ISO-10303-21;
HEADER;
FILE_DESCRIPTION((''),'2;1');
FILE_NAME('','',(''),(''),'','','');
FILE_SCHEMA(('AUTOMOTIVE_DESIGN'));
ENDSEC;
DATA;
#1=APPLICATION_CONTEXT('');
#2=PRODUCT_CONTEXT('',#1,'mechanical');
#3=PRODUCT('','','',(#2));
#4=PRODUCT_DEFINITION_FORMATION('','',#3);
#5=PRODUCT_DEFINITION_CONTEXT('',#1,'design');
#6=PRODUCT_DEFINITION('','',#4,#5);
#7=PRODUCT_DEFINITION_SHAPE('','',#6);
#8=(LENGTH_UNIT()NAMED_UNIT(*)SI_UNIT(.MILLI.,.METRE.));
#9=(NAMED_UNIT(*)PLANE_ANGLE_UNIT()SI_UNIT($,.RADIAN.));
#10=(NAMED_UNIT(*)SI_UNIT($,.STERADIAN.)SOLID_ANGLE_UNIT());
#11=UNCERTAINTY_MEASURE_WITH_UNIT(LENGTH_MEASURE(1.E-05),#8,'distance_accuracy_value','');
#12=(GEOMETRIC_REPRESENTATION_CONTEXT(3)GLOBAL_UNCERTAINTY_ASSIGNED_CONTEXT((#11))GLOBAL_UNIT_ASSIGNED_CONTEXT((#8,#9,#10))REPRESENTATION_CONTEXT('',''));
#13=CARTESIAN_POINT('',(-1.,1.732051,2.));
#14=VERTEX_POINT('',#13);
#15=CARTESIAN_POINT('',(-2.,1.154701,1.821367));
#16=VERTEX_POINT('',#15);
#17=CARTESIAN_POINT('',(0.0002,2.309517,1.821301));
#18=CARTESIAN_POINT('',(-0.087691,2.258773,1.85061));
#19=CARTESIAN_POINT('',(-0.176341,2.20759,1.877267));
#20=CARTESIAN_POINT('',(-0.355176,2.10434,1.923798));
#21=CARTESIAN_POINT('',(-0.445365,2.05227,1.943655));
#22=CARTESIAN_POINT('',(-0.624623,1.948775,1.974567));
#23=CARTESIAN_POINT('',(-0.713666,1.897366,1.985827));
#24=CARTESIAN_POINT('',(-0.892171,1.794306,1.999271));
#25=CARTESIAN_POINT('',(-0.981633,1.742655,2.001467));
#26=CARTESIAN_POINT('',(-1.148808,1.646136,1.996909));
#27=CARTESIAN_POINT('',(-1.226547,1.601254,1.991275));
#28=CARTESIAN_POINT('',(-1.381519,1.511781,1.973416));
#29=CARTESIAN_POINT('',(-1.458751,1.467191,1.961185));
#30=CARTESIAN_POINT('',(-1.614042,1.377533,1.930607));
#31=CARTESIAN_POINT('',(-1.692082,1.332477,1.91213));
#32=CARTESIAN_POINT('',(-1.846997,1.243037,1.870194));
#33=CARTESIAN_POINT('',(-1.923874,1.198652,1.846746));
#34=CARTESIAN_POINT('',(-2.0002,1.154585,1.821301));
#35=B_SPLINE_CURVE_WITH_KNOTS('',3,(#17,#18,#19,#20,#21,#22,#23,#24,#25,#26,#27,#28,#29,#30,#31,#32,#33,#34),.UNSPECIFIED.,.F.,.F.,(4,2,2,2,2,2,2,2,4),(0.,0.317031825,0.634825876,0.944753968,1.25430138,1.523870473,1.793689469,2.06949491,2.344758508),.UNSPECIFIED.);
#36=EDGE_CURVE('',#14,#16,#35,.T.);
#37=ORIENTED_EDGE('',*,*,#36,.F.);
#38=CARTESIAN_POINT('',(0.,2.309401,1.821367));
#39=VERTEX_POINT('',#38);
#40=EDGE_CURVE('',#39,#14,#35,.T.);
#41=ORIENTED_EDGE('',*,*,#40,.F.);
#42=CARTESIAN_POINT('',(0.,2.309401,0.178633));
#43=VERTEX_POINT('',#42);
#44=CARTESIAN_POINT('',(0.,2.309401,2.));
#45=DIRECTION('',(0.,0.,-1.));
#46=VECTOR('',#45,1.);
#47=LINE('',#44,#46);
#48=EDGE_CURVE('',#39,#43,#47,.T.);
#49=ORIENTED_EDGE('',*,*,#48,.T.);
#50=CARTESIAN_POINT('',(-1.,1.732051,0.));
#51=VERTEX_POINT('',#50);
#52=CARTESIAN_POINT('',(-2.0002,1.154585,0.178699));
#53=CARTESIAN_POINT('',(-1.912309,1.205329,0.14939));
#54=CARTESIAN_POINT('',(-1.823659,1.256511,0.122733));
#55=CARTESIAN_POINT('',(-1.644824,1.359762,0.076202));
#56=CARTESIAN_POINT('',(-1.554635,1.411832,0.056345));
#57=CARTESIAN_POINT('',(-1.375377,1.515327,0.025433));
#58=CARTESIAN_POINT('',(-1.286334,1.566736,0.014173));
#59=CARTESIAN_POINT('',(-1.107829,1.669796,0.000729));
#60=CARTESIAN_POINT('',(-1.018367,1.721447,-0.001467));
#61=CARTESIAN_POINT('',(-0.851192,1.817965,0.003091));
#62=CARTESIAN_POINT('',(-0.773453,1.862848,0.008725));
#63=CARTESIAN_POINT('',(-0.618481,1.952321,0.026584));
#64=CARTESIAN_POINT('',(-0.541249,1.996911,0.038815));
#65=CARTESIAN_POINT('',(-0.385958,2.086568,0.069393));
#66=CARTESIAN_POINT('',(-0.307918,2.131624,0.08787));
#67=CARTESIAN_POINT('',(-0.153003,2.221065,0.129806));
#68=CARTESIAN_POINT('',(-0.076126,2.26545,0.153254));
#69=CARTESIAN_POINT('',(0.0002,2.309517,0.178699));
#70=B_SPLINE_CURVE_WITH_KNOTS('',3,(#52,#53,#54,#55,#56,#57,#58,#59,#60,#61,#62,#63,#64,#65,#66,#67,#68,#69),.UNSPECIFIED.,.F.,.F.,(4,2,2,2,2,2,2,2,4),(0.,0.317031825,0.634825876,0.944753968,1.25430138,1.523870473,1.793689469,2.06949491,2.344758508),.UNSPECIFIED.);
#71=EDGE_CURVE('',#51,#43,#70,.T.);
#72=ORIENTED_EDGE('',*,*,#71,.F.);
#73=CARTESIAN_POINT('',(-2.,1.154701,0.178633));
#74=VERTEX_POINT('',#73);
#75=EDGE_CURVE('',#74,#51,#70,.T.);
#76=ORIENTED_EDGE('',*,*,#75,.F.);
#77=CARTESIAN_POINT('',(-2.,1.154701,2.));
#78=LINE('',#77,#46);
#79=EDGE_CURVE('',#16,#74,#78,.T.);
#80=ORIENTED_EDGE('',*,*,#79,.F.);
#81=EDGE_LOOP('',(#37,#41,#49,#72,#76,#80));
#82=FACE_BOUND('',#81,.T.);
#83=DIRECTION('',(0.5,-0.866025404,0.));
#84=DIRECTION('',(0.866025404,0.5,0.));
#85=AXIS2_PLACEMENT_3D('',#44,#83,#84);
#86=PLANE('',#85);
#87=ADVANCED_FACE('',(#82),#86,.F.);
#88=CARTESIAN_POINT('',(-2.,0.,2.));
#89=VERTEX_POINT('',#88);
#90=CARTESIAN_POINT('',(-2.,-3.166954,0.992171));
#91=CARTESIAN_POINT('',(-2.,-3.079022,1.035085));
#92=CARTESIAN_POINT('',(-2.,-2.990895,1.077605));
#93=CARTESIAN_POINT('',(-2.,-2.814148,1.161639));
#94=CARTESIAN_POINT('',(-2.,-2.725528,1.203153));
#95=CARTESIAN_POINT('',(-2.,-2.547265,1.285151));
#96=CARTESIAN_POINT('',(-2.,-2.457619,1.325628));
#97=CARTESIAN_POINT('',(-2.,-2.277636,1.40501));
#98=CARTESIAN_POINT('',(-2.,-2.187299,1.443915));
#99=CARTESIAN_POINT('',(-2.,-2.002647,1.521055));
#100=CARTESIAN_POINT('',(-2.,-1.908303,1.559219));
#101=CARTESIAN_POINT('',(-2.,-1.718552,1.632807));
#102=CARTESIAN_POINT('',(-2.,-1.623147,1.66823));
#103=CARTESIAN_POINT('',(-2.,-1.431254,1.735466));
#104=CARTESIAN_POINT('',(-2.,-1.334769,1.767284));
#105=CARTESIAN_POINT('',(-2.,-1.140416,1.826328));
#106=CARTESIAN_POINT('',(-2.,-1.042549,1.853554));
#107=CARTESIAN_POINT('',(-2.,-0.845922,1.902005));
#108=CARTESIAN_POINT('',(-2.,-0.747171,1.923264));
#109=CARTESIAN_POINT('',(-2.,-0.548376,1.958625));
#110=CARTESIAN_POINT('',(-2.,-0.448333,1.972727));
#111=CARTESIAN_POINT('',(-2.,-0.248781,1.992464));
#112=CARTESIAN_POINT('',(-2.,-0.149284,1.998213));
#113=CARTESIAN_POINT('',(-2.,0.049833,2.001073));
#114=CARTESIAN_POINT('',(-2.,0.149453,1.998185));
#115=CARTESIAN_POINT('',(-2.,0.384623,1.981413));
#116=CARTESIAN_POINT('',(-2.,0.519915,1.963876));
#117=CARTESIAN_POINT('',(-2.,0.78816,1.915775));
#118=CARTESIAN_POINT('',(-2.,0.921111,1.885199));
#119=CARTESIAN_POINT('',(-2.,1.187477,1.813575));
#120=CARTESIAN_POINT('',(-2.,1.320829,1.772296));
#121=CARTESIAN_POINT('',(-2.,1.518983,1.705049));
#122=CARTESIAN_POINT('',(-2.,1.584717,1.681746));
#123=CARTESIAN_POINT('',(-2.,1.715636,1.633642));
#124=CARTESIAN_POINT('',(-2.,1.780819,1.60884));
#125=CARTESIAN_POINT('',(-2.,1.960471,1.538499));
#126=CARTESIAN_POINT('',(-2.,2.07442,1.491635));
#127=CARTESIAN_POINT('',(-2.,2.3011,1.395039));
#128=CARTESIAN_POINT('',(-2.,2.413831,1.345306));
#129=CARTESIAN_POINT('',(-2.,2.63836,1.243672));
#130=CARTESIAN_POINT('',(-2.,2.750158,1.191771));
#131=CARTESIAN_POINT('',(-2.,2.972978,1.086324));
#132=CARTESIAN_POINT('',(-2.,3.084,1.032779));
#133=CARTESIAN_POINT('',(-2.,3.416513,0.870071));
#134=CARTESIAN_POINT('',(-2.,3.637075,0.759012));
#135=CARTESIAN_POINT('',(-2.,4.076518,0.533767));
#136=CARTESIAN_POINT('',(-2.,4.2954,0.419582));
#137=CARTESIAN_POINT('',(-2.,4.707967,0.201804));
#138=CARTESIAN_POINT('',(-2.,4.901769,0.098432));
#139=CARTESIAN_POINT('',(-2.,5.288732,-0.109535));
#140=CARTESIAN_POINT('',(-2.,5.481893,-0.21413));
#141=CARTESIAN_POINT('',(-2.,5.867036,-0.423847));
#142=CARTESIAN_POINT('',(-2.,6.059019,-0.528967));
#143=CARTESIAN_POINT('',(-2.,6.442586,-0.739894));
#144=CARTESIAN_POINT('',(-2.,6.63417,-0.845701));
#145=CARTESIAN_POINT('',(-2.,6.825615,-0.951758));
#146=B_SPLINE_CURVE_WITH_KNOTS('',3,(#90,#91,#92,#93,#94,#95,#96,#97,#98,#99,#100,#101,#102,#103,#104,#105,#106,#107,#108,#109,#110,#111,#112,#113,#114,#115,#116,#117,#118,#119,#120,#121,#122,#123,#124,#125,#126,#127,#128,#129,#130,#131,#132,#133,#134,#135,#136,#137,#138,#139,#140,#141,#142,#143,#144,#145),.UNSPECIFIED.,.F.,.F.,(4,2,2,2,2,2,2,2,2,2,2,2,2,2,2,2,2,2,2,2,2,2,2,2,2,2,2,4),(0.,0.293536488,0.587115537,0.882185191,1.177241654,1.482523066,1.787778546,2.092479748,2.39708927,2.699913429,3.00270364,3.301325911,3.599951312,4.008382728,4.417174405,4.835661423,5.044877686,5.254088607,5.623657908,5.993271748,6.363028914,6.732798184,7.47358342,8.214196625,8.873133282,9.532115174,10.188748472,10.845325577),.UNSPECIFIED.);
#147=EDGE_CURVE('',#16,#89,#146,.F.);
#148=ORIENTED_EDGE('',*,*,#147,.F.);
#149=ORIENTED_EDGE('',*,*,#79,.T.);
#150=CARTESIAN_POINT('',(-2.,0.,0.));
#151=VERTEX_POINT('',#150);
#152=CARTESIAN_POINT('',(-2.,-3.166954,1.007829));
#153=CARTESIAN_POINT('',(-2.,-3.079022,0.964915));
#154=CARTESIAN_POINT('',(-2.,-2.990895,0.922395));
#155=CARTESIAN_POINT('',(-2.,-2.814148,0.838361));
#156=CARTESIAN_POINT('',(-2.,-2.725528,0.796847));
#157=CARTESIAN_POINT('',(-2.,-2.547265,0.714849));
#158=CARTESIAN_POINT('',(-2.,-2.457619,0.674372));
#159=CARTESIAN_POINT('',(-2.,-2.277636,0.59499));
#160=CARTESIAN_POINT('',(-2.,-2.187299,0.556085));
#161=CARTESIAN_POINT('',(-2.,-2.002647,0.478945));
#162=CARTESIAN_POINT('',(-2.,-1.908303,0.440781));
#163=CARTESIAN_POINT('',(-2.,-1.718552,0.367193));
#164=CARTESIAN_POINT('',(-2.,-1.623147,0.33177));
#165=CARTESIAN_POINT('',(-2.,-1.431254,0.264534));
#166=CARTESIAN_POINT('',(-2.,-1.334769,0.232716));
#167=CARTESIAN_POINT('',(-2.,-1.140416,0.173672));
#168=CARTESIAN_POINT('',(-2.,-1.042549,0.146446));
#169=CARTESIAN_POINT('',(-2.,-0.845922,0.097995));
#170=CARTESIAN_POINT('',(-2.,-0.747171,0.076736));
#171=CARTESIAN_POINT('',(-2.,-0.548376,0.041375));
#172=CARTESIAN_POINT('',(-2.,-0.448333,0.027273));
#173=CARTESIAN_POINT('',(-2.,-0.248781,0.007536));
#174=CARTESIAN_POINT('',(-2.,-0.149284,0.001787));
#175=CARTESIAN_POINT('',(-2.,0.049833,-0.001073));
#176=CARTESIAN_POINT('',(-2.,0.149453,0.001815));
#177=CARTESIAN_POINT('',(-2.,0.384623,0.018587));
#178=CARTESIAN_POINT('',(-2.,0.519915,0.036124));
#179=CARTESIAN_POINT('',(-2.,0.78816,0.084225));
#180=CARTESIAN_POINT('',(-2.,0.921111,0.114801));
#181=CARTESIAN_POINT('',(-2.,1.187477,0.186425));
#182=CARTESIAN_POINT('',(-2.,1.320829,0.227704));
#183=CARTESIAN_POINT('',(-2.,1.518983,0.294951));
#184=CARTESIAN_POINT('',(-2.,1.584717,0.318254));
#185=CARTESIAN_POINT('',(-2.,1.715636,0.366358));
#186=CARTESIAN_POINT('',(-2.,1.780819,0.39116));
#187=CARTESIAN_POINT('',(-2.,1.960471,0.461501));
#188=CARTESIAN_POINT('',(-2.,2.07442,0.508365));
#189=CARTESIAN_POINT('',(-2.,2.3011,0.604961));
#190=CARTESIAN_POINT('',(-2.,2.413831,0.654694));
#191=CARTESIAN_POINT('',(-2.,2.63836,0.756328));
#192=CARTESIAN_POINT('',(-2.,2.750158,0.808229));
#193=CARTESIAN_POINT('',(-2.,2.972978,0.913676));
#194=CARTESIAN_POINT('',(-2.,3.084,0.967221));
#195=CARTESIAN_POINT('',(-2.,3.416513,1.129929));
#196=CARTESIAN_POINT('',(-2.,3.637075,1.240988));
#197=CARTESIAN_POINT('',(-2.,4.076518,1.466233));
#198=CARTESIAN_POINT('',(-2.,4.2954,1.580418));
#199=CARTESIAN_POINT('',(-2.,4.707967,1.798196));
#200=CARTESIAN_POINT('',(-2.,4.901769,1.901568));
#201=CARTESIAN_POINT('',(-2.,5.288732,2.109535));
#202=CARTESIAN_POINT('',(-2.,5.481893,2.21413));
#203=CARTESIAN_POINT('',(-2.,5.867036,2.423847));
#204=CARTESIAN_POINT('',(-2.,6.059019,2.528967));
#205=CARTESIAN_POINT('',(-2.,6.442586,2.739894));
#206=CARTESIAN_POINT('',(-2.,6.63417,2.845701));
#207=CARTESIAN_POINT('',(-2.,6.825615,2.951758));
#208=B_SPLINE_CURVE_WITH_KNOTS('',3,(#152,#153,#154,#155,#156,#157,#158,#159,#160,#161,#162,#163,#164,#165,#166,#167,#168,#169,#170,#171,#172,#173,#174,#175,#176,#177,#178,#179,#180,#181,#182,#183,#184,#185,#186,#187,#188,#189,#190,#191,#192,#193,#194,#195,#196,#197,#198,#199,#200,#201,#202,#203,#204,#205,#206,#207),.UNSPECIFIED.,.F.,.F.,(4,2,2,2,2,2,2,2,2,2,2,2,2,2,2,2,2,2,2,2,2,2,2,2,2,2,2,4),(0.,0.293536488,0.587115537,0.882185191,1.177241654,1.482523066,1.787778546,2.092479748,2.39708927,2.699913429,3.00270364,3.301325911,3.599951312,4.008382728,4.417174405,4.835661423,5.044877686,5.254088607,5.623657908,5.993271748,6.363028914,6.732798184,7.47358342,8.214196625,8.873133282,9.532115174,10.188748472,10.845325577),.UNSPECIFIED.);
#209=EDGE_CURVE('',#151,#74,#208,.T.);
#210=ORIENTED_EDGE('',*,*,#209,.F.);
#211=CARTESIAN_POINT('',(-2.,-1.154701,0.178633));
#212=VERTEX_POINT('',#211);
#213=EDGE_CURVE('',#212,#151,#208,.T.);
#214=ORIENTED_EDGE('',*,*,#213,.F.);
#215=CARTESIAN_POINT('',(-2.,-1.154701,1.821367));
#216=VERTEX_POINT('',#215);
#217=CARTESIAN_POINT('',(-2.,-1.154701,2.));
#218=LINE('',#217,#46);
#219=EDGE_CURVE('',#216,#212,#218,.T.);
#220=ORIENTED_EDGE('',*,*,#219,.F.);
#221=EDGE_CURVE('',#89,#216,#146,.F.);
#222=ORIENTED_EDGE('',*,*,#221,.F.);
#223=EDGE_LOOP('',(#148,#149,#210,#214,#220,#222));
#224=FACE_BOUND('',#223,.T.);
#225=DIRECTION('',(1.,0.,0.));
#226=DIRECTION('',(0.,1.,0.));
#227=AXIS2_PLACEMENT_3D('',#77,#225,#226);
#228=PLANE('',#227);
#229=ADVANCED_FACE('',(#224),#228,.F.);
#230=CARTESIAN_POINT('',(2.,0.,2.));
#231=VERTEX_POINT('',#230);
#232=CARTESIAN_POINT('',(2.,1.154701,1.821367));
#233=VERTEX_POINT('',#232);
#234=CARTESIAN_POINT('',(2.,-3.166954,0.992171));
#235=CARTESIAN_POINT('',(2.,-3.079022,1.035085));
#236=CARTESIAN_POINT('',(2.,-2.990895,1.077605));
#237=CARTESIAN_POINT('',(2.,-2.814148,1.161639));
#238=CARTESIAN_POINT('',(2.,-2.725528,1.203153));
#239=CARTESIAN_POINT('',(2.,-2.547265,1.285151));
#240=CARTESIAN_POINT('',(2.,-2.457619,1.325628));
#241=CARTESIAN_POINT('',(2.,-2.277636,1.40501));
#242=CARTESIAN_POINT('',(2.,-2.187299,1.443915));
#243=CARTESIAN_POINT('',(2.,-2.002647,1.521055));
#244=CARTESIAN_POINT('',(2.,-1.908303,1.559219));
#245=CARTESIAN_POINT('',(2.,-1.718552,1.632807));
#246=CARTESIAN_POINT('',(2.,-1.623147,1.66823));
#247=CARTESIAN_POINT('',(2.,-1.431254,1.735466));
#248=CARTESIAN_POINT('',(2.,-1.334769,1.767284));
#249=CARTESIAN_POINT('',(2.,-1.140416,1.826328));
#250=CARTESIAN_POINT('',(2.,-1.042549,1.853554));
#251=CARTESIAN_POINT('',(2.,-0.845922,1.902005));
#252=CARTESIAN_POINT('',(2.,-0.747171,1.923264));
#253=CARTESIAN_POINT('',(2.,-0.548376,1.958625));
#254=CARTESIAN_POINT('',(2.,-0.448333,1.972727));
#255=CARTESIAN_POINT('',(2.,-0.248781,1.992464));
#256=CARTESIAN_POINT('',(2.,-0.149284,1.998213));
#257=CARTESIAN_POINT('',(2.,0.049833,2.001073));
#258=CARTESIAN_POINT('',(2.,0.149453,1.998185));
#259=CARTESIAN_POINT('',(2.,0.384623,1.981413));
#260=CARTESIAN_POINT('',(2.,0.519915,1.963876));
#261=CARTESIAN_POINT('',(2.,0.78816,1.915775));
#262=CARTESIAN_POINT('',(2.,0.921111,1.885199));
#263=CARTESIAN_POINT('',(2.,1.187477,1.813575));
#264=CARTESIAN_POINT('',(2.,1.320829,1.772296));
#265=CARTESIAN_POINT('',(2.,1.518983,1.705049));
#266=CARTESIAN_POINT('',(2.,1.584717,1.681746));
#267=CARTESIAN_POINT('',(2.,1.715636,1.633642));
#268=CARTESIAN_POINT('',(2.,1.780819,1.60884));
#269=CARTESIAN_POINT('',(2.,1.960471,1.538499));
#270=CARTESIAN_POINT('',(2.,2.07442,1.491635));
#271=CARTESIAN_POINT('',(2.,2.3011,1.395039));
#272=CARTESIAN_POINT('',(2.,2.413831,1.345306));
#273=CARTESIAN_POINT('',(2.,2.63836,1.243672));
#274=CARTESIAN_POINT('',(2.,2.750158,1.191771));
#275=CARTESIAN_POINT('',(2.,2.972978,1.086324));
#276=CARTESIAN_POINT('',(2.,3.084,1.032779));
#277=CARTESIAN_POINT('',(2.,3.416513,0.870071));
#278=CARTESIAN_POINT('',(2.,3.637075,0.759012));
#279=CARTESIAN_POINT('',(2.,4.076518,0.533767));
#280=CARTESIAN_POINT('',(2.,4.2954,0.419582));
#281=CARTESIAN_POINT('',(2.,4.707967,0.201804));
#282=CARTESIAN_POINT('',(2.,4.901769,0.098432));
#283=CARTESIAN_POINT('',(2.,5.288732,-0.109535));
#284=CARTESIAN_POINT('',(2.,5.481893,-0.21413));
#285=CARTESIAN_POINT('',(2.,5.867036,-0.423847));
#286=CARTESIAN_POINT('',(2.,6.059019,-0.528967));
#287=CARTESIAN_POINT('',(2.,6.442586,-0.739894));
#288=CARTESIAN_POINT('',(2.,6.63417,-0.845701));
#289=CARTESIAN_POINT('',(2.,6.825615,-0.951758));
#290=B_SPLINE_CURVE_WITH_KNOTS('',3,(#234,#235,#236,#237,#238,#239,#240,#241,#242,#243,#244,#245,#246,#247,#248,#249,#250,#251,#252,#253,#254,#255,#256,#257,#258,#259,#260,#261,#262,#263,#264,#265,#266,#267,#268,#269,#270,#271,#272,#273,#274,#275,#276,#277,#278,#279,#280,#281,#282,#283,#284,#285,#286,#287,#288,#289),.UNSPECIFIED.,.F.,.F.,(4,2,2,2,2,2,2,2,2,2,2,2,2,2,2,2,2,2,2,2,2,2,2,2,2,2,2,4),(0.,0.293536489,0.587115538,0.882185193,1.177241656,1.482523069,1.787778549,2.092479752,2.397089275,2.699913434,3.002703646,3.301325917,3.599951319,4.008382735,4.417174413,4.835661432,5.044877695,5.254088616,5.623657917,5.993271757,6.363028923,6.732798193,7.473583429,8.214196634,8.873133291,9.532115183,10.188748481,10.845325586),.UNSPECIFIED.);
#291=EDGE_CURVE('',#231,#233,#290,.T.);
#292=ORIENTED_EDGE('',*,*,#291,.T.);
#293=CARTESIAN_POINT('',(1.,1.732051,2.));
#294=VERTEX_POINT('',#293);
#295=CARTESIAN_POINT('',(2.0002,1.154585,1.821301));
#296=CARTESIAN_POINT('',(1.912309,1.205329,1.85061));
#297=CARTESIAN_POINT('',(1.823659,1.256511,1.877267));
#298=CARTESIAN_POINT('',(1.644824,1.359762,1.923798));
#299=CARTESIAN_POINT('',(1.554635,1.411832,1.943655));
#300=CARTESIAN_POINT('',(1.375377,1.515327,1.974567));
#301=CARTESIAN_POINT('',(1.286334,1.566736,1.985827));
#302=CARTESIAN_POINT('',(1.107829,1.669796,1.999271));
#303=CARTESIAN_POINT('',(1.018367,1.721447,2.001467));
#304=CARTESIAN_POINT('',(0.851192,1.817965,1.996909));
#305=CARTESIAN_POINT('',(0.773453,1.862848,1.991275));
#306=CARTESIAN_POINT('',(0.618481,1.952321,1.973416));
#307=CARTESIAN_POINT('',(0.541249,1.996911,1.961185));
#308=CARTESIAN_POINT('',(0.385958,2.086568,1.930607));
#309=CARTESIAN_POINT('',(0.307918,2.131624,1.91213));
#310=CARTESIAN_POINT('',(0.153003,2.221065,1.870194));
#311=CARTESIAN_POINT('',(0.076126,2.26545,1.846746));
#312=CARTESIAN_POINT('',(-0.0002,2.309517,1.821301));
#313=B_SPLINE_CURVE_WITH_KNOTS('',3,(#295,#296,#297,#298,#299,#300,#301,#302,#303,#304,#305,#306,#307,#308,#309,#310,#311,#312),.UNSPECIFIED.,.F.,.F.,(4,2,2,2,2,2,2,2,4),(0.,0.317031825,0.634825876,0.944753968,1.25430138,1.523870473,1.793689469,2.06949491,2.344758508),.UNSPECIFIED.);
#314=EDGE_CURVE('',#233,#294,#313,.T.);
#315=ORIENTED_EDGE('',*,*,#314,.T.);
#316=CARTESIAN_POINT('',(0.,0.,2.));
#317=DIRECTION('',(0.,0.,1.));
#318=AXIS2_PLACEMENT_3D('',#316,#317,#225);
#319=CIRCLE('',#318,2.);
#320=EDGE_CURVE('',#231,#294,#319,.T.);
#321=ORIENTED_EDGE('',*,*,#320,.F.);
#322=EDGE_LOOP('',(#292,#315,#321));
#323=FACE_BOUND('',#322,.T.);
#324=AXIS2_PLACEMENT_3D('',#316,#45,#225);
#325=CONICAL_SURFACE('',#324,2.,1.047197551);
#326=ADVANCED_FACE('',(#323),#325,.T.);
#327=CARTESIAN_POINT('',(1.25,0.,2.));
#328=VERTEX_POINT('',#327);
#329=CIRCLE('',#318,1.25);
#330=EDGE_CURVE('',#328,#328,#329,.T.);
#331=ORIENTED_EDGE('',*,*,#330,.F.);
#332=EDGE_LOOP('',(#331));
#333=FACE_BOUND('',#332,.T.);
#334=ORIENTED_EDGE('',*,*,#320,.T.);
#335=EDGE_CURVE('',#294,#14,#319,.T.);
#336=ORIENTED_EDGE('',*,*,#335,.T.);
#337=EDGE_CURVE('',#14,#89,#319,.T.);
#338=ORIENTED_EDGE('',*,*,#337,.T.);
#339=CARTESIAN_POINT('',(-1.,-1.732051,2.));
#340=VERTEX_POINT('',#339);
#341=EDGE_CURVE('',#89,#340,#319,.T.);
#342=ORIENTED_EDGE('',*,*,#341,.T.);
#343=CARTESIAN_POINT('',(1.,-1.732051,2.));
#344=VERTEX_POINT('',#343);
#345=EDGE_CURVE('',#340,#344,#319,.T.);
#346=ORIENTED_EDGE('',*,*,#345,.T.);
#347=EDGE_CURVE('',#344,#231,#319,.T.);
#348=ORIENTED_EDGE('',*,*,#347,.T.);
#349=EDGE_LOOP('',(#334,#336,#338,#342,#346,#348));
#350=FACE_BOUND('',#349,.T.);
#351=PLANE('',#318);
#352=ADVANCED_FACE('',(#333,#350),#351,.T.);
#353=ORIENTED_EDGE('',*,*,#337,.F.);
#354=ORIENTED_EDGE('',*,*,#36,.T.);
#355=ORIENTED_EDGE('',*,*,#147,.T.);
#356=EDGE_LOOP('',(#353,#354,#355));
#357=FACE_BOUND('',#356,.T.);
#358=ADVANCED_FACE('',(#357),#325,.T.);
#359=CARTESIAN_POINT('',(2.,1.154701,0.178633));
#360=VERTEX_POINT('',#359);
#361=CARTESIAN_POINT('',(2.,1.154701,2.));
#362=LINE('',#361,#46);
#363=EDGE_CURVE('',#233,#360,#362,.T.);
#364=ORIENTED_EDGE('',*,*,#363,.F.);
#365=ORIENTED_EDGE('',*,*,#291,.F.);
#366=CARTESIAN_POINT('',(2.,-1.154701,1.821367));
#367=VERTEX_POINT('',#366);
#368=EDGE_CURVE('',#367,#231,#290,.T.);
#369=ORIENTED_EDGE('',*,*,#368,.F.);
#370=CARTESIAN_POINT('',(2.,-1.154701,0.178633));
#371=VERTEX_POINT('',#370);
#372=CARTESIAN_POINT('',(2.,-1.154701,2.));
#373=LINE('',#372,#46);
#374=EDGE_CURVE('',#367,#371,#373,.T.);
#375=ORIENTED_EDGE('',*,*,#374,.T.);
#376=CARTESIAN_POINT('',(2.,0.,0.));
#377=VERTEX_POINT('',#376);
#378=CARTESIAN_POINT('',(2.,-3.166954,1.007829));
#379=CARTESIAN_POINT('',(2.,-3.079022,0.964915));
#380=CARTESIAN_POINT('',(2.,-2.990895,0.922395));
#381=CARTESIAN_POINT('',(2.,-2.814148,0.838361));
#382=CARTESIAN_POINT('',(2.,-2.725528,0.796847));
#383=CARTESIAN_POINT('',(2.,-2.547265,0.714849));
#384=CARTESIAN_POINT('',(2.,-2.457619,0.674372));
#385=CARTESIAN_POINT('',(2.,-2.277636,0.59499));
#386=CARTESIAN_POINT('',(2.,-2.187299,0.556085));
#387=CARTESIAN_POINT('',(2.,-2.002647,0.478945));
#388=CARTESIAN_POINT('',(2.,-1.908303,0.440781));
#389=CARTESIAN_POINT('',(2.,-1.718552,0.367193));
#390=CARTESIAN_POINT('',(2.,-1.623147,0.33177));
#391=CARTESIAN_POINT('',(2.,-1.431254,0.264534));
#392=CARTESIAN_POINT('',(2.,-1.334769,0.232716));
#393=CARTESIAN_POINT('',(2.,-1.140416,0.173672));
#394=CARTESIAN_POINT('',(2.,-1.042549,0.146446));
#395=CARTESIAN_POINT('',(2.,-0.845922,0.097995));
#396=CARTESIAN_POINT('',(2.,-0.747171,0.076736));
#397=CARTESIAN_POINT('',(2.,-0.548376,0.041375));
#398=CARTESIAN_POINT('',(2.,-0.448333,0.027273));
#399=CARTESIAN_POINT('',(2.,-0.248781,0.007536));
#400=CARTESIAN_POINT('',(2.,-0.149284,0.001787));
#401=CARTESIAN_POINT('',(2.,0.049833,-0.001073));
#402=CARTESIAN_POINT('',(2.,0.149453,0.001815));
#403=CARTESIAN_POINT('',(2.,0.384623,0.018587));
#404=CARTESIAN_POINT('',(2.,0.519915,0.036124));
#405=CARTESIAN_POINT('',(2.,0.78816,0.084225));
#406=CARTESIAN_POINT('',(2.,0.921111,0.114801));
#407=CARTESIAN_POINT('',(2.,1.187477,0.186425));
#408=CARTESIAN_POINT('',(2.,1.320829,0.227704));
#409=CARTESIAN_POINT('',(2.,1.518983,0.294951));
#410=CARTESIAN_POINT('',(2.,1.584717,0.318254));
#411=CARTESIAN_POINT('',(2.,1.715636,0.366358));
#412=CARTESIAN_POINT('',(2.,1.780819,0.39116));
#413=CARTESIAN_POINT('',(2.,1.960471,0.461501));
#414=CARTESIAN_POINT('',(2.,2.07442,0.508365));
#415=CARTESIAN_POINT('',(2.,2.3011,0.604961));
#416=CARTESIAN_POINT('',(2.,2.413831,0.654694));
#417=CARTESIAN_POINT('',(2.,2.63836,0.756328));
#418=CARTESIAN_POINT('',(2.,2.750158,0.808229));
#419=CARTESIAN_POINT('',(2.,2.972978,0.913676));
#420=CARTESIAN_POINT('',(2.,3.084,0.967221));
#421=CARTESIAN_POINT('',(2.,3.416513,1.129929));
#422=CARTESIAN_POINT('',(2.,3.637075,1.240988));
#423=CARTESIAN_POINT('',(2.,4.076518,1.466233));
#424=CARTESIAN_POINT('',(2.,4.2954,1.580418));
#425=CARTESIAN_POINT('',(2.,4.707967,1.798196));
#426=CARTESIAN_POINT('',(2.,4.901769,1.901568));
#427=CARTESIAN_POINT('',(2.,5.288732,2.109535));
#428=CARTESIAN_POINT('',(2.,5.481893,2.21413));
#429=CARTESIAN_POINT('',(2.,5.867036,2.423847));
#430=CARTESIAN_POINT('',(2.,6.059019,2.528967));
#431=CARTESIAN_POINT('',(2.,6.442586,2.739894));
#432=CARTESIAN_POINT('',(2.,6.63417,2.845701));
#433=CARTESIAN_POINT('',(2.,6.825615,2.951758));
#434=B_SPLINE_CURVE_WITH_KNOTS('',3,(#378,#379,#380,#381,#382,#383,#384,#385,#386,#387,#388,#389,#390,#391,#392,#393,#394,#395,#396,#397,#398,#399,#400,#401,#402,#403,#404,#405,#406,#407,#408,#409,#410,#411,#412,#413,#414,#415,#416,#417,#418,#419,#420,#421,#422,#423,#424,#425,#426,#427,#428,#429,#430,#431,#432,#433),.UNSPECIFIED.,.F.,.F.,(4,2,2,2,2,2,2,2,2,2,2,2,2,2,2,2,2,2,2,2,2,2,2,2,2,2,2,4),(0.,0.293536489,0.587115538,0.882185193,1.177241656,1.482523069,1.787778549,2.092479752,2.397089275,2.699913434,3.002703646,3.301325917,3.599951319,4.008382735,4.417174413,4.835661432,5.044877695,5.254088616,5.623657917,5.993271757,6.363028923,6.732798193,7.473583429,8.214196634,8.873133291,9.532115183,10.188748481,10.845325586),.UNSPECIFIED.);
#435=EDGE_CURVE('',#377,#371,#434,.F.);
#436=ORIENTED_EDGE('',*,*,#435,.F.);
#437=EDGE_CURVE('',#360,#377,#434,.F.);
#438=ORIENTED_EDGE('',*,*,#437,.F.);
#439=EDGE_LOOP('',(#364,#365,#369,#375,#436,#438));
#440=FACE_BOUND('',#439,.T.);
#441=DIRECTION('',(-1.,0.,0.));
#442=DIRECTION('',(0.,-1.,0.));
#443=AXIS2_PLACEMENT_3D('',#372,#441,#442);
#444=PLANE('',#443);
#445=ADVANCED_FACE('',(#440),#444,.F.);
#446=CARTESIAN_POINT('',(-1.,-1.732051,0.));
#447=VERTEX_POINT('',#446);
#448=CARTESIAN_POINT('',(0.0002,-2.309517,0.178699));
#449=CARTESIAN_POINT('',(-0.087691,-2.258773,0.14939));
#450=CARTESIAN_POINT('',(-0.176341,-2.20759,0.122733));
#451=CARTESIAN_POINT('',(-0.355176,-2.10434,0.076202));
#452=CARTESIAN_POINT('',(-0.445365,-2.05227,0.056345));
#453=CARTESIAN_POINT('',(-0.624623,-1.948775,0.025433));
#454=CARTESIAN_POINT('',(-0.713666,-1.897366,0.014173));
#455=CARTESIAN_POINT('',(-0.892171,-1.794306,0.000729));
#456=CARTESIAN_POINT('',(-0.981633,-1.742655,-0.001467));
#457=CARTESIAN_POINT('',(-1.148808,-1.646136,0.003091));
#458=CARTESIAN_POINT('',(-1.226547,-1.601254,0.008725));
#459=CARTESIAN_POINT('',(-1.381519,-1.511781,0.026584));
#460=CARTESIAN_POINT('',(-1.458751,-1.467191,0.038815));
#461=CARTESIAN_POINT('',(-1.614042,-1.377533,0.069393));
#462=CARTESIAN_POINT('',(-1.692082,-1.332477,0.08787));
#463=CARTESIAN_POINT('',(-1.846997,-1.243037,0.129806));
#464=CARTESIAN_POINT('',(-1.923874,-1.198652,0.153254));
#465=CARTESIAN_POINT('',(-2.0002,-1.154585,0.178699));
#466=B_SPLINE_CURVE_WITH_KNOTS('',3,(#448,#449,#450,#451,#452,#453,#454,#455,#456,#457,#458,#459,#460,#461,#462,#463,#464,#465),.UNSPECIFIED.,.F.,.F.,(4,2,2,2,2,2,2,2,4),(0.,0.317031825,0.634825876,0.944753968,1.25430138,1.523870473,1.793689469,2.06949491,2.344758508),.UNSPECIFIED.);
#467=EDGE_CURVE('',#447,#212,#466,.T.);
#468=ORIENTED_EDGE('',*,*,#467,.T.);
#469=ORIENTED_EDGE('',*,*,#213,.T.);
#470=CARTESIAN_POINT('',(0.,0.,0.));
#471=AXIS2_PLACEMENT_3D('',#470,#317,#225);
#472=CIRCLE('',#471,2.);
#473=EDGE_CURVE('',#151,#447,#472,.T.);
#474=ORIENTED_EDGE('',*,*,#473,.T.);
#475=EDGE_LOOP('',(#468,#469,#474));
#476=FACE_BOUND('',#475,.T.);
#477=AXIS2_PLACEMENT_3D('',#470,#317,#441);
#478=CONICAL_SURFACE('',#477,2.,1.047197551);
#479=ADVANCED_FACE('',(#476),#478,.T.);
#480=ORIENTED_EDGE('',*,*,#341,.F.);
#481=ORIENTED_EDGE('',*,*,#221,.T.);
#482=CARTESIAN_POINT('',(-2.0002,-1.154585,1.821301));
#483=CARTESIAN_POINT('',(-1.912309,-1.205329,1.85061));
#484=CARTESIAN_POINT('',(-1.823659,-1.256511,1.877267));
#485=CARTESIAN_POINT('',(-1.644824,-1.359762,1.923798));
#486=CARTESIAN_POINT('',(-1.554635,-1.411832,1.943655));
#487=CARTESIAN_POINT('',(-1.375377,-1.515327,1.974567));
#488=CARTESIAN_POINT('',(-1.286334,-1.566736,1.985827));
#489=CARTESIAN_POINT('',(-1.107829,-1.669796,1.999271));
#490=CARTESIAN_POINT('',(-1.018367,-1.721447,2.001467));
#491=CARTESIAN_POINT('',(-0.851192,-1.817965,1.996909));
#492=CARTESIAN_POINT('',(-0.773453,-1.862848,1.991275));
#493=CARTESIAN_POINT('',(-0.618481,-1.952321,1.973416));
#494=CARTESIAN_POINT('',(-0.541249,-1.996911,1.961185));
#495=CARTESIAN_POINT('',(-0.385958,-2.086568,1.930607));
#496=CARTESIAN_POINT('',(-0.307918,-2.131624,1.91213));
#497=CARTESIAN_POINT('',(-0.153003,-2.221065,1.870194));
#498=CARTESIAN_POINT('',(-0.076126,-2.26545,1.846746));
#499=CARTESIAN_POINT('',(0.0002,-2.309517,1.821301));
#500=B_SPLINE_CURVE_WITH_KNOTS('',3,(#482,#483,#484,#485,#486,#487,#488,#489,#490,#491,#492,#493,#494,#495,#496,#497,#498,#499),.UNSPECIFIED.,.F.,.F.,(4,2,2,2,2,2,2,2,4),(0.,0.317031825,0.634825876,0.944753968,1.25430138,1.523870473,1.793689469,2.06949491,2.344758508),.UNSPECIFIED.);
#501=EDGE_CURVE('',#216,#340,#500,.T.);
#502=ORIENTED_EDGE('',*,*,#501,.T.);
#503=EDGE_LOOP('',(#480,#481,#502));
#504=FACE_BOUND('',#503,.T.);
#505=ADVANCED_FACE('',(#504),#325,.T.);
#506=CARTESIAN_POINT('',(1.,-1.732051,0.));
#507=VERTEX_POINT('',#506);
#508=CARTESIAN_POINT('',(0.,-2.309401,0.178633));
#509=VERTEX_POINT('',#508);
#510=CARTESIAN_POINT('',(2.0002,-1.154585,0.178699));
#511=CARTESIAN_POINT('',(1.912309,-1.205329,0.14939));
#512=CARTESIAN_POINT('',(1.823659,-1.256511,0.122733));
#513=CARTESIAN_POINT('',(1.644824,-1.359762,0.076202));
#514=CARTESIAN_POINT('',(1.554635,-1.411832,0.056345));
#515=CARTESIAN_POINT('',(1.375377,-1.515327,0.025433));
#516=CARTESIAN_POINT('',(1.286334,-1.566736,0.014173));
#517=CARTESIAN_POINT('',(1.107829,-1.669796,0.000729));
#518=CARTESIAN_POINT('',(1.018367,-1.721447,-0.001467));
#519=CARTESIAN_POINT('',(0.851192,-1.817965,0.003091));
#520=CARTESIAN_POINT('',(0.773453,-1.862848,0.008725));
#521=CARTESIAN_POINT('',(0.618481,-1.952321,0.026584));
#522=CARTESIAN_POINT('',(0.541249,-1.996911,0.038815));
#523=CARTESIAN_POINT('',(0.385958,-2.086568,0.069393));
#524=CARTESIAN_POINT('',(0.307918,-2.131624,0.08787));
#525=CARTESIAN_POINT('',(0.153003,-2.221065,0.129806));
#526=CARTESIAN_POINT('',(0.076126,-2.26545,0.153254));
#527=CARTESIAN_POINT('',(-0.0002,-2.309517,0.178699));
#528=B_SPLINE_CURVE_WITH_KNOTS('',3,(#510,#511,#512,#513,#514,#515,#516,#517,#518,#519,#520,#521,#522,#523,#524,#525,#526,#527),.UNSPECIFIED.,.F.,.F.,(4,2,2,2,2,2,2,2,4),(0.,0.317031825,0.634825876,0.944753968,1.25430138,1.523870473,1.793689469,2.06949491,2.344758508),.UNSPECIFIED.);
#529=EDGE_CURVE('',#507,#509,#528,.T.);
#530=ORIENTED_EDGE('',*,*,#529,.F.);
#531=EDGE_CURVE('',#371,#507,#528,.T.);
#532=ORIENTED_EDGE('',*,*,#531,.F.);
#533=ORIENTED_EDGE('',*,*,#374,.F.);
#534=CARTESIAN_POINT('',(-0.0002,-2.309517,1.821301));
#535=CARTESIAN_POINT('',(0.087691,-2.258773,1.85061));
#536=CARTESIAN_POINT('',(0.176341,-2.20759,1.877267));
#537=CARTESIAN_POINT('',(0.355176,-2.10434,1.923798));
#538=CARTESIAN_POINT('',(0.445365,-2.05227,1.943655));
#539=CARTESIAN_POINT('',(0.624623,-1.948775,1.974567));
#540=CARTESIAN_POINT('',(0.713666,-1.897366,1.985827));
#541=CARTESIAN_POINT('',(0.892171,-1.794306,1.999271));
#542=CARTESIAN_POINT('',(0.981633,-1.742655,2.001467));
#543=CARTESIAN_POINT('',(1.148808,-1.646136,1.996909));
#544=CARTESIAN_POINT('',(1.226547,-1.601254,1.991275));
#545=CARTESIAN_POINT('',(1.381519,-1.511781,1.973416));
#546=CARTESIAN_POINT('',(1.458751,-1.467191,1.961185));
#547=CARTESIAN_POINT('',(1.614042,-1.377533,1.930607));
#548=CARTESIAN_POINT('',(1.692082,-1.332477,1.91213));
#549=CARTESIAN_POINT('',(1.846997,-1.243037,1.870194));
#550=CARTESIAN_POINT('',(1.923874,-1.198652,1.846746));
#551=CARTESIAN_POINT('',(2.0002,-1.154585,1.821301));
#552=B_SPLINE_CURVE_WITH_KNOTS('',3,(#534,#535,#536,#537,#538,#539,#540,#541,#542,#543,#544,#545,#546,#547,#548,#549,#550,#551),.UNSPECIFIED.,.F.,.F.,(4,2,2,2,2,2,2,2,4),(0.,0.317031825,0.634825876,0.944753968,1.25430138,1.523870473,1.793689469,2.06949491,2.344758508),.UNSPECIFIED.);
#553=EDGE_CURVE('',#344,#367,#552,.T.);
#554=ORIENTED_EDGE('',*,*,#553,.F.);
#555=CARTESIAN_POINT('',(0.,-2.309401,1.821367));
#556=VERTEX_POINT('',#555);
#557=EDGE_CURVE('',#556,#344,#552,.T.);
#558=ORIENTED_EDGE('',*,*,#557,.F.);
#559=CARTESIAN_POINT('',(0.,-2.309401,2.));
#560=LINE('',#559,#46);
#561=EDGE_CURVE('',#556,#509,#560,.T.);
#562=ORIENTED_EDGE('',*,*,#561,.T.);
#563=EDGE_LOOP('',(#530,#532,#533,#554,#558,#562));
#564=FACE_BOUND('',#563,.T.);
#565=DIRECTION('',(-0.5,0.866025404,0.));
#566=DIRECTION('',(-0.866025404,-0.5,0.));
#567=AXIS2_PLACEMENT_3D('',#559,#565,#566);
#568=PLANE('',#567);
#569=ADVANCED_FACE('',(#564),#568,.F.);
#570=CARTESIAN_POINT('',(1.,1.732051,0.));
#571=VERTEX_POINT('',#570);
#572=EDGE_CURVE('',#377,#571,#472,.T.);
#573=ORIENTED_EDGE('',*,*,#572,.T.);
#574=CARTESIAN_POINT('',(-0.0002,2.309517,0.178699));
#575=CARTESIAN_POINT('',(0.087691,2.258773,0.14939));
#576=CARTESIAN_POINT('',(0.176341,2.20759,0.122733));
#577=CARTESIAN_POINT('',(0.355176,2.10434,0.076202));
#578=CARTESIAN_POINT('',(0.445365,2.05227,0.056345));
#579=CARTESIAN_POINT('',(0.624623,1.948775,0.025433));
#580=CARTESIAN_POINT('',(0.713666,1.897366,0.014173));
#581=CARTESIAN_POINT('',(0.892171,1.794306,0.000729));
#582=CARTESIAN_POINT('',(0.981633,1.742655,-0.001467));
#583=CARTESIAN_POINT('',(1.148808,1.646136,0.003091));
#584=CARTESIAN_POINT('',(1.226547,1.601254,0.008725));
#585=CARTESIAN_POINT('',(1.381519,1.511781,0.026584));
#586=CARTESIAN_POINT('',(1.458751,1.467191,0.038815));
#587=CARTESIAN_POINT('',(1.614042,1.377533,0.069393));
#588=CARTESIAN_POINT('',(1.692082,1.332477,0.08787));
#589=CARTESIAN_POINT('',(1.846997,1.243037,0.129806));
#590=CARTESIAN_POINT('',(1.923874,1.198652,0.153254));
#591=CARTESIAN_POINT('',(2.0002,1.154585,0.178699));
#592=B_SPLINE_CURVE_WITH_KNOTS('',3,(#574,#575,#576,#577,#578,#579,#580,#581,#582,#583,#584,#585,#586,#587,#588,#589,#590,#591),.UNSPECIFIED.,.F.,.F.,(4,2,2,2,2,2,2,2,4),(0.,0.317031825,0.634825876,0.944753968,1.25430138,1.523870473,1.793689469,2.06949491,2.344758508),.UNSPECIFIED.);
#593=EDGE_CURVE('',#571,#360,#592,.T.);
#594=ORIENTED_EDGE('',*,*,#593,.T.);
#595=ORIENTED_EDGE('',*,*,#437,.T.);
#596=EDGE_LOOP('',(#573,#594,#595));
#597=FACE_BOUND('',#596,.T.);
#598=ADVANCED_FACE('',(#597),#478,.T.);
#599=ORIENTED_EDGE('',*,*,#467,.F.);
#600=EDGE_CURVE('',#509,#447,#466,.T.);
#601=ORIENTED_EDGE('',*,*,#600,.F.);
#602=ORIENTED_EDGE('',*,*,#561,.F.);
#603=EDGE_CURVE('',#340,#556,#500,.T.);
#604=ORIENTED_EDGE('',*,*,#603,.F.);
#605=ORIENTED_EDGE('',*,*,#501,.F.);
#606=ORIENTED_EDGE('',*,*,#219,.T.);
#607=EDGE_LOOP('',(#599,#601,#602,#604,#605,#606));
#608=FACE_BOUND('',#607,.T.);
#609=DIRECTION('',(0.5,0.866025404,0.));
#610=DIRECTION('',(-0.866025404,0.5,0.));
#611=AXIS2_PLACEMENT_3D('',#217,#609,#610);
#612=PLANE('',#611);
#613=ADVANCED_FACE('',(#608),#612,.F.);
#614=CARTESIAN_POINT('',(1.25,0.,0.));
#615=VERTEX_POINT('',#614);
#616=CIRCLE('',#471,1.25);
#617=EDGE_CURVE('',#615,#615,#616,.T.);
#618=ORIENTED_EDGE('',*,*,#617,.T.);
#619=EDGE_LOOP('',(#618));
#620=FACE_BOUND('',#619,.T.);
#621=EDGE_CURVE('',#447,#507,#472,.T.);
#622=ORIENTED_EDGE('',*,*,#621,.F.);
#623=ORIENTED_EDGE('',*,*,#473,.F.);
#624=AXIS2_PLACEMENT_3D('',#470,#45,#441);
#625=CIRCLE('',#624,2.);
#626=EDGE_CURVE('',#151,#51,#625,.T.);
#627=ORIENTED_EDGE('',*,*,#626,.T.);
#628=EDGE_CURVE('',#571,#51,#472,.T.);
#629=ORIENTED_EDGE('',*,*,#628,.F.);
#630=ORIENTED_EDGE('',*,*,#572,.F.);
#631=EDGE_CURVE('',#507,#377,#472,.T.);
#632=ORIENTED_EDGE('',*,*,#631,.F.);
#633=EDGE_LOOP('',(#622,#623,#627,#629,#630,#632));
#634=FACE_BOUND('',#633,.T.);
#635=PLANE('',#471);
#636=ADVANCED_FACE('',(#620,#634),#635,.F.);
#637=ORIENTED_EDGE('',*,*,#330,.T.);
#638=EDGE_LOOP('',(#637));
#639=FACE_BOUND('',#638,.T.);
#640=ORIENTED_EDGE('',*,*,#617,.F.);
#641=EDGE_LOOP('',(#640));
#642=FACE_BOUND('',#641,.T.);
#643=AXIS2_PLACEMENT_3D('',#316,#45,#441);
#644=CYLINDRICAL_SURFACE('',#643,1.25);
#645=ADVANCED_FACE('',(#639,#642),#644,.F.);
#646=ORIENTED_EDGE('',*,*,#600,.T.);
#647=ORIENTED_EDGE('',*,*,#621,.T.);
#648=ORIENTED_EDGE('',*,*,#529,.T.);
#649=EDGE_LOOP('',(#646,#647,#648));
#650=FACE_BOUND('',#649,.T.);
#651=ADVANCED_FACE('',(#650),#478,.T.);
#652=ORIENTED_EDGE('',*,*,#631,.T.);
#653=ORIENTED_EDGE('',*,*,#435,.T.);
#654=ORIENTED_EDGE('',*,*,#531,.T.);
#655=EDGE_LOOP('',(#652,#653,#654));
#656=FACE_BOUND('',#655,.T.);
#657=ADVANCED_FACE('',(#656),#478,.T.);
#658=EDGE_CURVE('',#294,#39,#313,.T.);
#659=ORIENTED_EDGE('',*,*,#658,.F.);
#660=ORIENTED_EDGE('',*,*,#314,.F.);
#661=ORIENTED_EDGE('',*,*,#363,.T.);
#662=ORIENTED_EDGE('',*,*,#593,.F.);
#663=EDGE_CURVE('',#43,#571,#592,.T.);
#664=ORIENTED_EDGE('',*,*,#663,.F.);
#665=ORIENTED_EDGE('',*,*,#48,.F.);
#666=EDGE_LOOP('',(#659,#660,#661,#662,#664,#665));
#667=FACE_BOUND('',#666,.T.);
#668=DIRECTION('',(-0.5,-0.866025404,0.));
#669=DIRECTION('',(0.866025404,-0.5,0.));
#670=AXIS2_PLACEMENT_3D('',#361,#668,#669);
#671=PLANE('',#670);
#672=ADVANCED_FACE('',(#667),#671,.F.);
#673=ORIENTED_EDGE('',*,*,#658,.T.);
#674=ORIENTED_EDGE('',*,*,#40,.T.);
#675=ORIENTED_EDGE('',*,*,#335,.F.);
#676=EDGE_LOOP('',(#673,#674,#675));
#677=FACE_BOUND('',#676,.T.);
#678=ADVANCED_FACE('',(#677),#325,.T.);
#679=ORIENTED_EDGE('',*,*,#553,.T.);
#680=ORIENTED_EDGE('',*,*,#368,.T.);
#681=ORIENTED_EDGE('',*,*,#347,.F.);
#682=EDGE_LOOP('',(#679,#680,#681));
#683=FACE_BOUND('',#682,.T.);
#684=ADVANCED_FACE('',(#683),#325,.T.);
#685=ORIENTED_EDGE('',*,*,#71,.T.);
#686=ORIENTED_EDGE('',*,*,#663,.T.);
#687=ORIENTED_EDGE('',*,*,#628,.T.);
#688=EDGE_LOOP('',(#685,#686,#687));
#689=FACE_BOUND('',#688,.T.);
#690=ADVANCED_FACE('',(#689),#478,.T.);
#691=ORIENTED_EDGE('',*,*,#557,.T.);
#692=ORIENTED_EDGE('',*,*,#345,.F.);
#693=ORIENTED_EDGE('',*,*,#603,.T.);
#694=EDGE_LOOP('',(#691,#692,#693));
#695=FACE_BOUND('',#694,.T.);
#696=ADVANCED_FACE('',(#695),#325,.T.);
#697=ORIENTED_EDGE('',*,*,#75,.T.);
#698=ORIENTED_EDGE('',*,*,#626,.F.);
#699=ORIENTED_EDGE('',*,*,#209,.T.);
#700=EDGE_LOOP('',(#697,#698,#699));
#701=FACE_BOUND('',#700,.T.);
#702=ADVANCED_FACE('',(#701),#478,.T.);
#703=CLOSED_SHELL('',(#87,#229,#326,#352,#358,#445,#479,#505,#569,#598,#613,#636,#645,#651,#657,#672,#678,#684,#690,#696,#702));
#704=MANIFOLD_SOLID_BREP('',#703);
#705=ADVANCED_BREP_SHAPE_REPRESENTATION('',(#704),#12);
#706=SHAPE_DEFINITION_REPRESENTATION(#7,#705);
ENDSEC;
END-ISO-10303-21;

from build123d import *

# Parameters (mm, degrees)
SKETCH1_R           = 1.25
BOSS_EXTRUDE1_DEPTH = 2
SKETCH2_OUTSIDE_W   = 14.214
SKETCH2_OUTSIDE_H   = 14.832
SKETCH2_OUTSIDE_R   = 2
CUT_EXTRUDE1_DEPTH  = 2
CUT_EXTRUDE1_TAPER  = 60
SKETCH3_OUTSIDE_W   = 14.214
SKETCH3_OUTSIDE_H   = 14.832
SKETCH3_OUTSIDE_R   = 2
CUT_EXTRUDE2_DEPTH  = 2
CUT_EXTRUDE2_TAPER  = 60


with BuildPart() as part:
    # Sketch1 → Boss-Extrude1 (new body)
    with BuildSketch(Plane.XY):
        Polygon((0, -2.309401077), (2, -1.154700538), (2, 1.154700538), (0, 2.309401077), (-2, 1.154700538), (-2, -1.154700538), align=None)
        Circle(SKETCH1_R, mode=Mode.SUBTRACT)
    extrude(amount=BOSS_EXTRUDE1_DEPTH)

    # Sketch2 outside → Cut-Extrude1 (cut)
    with BuildSketch(Plane.XY.offset(2)):
        Rectangle(SKETCH2_OUTSIDE_W, SKETCH2_OUTSIDE_H)
        Circle(SKETCH2_OUTSIDE_R, mode=Mode.SUBTRACT)
    extrude(amount=-CUT_EXTRUDE1_DEPTH, taper=CUT_EXTRUDE1_TAPER, mode=Mode.SUBTRACT)

    # Sketch3 outside → Cut-Extrude2 (cut)
    with BuildSketch(Plane(origin=(0, 0, 0), x_dir=(-1, 0, 0), z_dir=(0, 0, -1))):
        Rectangle(SKETCH3_OUTSIDE_W, SKETCH3_OUTSIDE_H)
        Circle(SKETCH3_OUTSIDE_R, mode=Mode.SUBTRACT)
    extrude(amount=-CUT_EXTRUDE2_DEPTH, taper=CUT_EXTRUDE2_TAPER, mode=Mode.SUBTRACT)


solid = part.part
